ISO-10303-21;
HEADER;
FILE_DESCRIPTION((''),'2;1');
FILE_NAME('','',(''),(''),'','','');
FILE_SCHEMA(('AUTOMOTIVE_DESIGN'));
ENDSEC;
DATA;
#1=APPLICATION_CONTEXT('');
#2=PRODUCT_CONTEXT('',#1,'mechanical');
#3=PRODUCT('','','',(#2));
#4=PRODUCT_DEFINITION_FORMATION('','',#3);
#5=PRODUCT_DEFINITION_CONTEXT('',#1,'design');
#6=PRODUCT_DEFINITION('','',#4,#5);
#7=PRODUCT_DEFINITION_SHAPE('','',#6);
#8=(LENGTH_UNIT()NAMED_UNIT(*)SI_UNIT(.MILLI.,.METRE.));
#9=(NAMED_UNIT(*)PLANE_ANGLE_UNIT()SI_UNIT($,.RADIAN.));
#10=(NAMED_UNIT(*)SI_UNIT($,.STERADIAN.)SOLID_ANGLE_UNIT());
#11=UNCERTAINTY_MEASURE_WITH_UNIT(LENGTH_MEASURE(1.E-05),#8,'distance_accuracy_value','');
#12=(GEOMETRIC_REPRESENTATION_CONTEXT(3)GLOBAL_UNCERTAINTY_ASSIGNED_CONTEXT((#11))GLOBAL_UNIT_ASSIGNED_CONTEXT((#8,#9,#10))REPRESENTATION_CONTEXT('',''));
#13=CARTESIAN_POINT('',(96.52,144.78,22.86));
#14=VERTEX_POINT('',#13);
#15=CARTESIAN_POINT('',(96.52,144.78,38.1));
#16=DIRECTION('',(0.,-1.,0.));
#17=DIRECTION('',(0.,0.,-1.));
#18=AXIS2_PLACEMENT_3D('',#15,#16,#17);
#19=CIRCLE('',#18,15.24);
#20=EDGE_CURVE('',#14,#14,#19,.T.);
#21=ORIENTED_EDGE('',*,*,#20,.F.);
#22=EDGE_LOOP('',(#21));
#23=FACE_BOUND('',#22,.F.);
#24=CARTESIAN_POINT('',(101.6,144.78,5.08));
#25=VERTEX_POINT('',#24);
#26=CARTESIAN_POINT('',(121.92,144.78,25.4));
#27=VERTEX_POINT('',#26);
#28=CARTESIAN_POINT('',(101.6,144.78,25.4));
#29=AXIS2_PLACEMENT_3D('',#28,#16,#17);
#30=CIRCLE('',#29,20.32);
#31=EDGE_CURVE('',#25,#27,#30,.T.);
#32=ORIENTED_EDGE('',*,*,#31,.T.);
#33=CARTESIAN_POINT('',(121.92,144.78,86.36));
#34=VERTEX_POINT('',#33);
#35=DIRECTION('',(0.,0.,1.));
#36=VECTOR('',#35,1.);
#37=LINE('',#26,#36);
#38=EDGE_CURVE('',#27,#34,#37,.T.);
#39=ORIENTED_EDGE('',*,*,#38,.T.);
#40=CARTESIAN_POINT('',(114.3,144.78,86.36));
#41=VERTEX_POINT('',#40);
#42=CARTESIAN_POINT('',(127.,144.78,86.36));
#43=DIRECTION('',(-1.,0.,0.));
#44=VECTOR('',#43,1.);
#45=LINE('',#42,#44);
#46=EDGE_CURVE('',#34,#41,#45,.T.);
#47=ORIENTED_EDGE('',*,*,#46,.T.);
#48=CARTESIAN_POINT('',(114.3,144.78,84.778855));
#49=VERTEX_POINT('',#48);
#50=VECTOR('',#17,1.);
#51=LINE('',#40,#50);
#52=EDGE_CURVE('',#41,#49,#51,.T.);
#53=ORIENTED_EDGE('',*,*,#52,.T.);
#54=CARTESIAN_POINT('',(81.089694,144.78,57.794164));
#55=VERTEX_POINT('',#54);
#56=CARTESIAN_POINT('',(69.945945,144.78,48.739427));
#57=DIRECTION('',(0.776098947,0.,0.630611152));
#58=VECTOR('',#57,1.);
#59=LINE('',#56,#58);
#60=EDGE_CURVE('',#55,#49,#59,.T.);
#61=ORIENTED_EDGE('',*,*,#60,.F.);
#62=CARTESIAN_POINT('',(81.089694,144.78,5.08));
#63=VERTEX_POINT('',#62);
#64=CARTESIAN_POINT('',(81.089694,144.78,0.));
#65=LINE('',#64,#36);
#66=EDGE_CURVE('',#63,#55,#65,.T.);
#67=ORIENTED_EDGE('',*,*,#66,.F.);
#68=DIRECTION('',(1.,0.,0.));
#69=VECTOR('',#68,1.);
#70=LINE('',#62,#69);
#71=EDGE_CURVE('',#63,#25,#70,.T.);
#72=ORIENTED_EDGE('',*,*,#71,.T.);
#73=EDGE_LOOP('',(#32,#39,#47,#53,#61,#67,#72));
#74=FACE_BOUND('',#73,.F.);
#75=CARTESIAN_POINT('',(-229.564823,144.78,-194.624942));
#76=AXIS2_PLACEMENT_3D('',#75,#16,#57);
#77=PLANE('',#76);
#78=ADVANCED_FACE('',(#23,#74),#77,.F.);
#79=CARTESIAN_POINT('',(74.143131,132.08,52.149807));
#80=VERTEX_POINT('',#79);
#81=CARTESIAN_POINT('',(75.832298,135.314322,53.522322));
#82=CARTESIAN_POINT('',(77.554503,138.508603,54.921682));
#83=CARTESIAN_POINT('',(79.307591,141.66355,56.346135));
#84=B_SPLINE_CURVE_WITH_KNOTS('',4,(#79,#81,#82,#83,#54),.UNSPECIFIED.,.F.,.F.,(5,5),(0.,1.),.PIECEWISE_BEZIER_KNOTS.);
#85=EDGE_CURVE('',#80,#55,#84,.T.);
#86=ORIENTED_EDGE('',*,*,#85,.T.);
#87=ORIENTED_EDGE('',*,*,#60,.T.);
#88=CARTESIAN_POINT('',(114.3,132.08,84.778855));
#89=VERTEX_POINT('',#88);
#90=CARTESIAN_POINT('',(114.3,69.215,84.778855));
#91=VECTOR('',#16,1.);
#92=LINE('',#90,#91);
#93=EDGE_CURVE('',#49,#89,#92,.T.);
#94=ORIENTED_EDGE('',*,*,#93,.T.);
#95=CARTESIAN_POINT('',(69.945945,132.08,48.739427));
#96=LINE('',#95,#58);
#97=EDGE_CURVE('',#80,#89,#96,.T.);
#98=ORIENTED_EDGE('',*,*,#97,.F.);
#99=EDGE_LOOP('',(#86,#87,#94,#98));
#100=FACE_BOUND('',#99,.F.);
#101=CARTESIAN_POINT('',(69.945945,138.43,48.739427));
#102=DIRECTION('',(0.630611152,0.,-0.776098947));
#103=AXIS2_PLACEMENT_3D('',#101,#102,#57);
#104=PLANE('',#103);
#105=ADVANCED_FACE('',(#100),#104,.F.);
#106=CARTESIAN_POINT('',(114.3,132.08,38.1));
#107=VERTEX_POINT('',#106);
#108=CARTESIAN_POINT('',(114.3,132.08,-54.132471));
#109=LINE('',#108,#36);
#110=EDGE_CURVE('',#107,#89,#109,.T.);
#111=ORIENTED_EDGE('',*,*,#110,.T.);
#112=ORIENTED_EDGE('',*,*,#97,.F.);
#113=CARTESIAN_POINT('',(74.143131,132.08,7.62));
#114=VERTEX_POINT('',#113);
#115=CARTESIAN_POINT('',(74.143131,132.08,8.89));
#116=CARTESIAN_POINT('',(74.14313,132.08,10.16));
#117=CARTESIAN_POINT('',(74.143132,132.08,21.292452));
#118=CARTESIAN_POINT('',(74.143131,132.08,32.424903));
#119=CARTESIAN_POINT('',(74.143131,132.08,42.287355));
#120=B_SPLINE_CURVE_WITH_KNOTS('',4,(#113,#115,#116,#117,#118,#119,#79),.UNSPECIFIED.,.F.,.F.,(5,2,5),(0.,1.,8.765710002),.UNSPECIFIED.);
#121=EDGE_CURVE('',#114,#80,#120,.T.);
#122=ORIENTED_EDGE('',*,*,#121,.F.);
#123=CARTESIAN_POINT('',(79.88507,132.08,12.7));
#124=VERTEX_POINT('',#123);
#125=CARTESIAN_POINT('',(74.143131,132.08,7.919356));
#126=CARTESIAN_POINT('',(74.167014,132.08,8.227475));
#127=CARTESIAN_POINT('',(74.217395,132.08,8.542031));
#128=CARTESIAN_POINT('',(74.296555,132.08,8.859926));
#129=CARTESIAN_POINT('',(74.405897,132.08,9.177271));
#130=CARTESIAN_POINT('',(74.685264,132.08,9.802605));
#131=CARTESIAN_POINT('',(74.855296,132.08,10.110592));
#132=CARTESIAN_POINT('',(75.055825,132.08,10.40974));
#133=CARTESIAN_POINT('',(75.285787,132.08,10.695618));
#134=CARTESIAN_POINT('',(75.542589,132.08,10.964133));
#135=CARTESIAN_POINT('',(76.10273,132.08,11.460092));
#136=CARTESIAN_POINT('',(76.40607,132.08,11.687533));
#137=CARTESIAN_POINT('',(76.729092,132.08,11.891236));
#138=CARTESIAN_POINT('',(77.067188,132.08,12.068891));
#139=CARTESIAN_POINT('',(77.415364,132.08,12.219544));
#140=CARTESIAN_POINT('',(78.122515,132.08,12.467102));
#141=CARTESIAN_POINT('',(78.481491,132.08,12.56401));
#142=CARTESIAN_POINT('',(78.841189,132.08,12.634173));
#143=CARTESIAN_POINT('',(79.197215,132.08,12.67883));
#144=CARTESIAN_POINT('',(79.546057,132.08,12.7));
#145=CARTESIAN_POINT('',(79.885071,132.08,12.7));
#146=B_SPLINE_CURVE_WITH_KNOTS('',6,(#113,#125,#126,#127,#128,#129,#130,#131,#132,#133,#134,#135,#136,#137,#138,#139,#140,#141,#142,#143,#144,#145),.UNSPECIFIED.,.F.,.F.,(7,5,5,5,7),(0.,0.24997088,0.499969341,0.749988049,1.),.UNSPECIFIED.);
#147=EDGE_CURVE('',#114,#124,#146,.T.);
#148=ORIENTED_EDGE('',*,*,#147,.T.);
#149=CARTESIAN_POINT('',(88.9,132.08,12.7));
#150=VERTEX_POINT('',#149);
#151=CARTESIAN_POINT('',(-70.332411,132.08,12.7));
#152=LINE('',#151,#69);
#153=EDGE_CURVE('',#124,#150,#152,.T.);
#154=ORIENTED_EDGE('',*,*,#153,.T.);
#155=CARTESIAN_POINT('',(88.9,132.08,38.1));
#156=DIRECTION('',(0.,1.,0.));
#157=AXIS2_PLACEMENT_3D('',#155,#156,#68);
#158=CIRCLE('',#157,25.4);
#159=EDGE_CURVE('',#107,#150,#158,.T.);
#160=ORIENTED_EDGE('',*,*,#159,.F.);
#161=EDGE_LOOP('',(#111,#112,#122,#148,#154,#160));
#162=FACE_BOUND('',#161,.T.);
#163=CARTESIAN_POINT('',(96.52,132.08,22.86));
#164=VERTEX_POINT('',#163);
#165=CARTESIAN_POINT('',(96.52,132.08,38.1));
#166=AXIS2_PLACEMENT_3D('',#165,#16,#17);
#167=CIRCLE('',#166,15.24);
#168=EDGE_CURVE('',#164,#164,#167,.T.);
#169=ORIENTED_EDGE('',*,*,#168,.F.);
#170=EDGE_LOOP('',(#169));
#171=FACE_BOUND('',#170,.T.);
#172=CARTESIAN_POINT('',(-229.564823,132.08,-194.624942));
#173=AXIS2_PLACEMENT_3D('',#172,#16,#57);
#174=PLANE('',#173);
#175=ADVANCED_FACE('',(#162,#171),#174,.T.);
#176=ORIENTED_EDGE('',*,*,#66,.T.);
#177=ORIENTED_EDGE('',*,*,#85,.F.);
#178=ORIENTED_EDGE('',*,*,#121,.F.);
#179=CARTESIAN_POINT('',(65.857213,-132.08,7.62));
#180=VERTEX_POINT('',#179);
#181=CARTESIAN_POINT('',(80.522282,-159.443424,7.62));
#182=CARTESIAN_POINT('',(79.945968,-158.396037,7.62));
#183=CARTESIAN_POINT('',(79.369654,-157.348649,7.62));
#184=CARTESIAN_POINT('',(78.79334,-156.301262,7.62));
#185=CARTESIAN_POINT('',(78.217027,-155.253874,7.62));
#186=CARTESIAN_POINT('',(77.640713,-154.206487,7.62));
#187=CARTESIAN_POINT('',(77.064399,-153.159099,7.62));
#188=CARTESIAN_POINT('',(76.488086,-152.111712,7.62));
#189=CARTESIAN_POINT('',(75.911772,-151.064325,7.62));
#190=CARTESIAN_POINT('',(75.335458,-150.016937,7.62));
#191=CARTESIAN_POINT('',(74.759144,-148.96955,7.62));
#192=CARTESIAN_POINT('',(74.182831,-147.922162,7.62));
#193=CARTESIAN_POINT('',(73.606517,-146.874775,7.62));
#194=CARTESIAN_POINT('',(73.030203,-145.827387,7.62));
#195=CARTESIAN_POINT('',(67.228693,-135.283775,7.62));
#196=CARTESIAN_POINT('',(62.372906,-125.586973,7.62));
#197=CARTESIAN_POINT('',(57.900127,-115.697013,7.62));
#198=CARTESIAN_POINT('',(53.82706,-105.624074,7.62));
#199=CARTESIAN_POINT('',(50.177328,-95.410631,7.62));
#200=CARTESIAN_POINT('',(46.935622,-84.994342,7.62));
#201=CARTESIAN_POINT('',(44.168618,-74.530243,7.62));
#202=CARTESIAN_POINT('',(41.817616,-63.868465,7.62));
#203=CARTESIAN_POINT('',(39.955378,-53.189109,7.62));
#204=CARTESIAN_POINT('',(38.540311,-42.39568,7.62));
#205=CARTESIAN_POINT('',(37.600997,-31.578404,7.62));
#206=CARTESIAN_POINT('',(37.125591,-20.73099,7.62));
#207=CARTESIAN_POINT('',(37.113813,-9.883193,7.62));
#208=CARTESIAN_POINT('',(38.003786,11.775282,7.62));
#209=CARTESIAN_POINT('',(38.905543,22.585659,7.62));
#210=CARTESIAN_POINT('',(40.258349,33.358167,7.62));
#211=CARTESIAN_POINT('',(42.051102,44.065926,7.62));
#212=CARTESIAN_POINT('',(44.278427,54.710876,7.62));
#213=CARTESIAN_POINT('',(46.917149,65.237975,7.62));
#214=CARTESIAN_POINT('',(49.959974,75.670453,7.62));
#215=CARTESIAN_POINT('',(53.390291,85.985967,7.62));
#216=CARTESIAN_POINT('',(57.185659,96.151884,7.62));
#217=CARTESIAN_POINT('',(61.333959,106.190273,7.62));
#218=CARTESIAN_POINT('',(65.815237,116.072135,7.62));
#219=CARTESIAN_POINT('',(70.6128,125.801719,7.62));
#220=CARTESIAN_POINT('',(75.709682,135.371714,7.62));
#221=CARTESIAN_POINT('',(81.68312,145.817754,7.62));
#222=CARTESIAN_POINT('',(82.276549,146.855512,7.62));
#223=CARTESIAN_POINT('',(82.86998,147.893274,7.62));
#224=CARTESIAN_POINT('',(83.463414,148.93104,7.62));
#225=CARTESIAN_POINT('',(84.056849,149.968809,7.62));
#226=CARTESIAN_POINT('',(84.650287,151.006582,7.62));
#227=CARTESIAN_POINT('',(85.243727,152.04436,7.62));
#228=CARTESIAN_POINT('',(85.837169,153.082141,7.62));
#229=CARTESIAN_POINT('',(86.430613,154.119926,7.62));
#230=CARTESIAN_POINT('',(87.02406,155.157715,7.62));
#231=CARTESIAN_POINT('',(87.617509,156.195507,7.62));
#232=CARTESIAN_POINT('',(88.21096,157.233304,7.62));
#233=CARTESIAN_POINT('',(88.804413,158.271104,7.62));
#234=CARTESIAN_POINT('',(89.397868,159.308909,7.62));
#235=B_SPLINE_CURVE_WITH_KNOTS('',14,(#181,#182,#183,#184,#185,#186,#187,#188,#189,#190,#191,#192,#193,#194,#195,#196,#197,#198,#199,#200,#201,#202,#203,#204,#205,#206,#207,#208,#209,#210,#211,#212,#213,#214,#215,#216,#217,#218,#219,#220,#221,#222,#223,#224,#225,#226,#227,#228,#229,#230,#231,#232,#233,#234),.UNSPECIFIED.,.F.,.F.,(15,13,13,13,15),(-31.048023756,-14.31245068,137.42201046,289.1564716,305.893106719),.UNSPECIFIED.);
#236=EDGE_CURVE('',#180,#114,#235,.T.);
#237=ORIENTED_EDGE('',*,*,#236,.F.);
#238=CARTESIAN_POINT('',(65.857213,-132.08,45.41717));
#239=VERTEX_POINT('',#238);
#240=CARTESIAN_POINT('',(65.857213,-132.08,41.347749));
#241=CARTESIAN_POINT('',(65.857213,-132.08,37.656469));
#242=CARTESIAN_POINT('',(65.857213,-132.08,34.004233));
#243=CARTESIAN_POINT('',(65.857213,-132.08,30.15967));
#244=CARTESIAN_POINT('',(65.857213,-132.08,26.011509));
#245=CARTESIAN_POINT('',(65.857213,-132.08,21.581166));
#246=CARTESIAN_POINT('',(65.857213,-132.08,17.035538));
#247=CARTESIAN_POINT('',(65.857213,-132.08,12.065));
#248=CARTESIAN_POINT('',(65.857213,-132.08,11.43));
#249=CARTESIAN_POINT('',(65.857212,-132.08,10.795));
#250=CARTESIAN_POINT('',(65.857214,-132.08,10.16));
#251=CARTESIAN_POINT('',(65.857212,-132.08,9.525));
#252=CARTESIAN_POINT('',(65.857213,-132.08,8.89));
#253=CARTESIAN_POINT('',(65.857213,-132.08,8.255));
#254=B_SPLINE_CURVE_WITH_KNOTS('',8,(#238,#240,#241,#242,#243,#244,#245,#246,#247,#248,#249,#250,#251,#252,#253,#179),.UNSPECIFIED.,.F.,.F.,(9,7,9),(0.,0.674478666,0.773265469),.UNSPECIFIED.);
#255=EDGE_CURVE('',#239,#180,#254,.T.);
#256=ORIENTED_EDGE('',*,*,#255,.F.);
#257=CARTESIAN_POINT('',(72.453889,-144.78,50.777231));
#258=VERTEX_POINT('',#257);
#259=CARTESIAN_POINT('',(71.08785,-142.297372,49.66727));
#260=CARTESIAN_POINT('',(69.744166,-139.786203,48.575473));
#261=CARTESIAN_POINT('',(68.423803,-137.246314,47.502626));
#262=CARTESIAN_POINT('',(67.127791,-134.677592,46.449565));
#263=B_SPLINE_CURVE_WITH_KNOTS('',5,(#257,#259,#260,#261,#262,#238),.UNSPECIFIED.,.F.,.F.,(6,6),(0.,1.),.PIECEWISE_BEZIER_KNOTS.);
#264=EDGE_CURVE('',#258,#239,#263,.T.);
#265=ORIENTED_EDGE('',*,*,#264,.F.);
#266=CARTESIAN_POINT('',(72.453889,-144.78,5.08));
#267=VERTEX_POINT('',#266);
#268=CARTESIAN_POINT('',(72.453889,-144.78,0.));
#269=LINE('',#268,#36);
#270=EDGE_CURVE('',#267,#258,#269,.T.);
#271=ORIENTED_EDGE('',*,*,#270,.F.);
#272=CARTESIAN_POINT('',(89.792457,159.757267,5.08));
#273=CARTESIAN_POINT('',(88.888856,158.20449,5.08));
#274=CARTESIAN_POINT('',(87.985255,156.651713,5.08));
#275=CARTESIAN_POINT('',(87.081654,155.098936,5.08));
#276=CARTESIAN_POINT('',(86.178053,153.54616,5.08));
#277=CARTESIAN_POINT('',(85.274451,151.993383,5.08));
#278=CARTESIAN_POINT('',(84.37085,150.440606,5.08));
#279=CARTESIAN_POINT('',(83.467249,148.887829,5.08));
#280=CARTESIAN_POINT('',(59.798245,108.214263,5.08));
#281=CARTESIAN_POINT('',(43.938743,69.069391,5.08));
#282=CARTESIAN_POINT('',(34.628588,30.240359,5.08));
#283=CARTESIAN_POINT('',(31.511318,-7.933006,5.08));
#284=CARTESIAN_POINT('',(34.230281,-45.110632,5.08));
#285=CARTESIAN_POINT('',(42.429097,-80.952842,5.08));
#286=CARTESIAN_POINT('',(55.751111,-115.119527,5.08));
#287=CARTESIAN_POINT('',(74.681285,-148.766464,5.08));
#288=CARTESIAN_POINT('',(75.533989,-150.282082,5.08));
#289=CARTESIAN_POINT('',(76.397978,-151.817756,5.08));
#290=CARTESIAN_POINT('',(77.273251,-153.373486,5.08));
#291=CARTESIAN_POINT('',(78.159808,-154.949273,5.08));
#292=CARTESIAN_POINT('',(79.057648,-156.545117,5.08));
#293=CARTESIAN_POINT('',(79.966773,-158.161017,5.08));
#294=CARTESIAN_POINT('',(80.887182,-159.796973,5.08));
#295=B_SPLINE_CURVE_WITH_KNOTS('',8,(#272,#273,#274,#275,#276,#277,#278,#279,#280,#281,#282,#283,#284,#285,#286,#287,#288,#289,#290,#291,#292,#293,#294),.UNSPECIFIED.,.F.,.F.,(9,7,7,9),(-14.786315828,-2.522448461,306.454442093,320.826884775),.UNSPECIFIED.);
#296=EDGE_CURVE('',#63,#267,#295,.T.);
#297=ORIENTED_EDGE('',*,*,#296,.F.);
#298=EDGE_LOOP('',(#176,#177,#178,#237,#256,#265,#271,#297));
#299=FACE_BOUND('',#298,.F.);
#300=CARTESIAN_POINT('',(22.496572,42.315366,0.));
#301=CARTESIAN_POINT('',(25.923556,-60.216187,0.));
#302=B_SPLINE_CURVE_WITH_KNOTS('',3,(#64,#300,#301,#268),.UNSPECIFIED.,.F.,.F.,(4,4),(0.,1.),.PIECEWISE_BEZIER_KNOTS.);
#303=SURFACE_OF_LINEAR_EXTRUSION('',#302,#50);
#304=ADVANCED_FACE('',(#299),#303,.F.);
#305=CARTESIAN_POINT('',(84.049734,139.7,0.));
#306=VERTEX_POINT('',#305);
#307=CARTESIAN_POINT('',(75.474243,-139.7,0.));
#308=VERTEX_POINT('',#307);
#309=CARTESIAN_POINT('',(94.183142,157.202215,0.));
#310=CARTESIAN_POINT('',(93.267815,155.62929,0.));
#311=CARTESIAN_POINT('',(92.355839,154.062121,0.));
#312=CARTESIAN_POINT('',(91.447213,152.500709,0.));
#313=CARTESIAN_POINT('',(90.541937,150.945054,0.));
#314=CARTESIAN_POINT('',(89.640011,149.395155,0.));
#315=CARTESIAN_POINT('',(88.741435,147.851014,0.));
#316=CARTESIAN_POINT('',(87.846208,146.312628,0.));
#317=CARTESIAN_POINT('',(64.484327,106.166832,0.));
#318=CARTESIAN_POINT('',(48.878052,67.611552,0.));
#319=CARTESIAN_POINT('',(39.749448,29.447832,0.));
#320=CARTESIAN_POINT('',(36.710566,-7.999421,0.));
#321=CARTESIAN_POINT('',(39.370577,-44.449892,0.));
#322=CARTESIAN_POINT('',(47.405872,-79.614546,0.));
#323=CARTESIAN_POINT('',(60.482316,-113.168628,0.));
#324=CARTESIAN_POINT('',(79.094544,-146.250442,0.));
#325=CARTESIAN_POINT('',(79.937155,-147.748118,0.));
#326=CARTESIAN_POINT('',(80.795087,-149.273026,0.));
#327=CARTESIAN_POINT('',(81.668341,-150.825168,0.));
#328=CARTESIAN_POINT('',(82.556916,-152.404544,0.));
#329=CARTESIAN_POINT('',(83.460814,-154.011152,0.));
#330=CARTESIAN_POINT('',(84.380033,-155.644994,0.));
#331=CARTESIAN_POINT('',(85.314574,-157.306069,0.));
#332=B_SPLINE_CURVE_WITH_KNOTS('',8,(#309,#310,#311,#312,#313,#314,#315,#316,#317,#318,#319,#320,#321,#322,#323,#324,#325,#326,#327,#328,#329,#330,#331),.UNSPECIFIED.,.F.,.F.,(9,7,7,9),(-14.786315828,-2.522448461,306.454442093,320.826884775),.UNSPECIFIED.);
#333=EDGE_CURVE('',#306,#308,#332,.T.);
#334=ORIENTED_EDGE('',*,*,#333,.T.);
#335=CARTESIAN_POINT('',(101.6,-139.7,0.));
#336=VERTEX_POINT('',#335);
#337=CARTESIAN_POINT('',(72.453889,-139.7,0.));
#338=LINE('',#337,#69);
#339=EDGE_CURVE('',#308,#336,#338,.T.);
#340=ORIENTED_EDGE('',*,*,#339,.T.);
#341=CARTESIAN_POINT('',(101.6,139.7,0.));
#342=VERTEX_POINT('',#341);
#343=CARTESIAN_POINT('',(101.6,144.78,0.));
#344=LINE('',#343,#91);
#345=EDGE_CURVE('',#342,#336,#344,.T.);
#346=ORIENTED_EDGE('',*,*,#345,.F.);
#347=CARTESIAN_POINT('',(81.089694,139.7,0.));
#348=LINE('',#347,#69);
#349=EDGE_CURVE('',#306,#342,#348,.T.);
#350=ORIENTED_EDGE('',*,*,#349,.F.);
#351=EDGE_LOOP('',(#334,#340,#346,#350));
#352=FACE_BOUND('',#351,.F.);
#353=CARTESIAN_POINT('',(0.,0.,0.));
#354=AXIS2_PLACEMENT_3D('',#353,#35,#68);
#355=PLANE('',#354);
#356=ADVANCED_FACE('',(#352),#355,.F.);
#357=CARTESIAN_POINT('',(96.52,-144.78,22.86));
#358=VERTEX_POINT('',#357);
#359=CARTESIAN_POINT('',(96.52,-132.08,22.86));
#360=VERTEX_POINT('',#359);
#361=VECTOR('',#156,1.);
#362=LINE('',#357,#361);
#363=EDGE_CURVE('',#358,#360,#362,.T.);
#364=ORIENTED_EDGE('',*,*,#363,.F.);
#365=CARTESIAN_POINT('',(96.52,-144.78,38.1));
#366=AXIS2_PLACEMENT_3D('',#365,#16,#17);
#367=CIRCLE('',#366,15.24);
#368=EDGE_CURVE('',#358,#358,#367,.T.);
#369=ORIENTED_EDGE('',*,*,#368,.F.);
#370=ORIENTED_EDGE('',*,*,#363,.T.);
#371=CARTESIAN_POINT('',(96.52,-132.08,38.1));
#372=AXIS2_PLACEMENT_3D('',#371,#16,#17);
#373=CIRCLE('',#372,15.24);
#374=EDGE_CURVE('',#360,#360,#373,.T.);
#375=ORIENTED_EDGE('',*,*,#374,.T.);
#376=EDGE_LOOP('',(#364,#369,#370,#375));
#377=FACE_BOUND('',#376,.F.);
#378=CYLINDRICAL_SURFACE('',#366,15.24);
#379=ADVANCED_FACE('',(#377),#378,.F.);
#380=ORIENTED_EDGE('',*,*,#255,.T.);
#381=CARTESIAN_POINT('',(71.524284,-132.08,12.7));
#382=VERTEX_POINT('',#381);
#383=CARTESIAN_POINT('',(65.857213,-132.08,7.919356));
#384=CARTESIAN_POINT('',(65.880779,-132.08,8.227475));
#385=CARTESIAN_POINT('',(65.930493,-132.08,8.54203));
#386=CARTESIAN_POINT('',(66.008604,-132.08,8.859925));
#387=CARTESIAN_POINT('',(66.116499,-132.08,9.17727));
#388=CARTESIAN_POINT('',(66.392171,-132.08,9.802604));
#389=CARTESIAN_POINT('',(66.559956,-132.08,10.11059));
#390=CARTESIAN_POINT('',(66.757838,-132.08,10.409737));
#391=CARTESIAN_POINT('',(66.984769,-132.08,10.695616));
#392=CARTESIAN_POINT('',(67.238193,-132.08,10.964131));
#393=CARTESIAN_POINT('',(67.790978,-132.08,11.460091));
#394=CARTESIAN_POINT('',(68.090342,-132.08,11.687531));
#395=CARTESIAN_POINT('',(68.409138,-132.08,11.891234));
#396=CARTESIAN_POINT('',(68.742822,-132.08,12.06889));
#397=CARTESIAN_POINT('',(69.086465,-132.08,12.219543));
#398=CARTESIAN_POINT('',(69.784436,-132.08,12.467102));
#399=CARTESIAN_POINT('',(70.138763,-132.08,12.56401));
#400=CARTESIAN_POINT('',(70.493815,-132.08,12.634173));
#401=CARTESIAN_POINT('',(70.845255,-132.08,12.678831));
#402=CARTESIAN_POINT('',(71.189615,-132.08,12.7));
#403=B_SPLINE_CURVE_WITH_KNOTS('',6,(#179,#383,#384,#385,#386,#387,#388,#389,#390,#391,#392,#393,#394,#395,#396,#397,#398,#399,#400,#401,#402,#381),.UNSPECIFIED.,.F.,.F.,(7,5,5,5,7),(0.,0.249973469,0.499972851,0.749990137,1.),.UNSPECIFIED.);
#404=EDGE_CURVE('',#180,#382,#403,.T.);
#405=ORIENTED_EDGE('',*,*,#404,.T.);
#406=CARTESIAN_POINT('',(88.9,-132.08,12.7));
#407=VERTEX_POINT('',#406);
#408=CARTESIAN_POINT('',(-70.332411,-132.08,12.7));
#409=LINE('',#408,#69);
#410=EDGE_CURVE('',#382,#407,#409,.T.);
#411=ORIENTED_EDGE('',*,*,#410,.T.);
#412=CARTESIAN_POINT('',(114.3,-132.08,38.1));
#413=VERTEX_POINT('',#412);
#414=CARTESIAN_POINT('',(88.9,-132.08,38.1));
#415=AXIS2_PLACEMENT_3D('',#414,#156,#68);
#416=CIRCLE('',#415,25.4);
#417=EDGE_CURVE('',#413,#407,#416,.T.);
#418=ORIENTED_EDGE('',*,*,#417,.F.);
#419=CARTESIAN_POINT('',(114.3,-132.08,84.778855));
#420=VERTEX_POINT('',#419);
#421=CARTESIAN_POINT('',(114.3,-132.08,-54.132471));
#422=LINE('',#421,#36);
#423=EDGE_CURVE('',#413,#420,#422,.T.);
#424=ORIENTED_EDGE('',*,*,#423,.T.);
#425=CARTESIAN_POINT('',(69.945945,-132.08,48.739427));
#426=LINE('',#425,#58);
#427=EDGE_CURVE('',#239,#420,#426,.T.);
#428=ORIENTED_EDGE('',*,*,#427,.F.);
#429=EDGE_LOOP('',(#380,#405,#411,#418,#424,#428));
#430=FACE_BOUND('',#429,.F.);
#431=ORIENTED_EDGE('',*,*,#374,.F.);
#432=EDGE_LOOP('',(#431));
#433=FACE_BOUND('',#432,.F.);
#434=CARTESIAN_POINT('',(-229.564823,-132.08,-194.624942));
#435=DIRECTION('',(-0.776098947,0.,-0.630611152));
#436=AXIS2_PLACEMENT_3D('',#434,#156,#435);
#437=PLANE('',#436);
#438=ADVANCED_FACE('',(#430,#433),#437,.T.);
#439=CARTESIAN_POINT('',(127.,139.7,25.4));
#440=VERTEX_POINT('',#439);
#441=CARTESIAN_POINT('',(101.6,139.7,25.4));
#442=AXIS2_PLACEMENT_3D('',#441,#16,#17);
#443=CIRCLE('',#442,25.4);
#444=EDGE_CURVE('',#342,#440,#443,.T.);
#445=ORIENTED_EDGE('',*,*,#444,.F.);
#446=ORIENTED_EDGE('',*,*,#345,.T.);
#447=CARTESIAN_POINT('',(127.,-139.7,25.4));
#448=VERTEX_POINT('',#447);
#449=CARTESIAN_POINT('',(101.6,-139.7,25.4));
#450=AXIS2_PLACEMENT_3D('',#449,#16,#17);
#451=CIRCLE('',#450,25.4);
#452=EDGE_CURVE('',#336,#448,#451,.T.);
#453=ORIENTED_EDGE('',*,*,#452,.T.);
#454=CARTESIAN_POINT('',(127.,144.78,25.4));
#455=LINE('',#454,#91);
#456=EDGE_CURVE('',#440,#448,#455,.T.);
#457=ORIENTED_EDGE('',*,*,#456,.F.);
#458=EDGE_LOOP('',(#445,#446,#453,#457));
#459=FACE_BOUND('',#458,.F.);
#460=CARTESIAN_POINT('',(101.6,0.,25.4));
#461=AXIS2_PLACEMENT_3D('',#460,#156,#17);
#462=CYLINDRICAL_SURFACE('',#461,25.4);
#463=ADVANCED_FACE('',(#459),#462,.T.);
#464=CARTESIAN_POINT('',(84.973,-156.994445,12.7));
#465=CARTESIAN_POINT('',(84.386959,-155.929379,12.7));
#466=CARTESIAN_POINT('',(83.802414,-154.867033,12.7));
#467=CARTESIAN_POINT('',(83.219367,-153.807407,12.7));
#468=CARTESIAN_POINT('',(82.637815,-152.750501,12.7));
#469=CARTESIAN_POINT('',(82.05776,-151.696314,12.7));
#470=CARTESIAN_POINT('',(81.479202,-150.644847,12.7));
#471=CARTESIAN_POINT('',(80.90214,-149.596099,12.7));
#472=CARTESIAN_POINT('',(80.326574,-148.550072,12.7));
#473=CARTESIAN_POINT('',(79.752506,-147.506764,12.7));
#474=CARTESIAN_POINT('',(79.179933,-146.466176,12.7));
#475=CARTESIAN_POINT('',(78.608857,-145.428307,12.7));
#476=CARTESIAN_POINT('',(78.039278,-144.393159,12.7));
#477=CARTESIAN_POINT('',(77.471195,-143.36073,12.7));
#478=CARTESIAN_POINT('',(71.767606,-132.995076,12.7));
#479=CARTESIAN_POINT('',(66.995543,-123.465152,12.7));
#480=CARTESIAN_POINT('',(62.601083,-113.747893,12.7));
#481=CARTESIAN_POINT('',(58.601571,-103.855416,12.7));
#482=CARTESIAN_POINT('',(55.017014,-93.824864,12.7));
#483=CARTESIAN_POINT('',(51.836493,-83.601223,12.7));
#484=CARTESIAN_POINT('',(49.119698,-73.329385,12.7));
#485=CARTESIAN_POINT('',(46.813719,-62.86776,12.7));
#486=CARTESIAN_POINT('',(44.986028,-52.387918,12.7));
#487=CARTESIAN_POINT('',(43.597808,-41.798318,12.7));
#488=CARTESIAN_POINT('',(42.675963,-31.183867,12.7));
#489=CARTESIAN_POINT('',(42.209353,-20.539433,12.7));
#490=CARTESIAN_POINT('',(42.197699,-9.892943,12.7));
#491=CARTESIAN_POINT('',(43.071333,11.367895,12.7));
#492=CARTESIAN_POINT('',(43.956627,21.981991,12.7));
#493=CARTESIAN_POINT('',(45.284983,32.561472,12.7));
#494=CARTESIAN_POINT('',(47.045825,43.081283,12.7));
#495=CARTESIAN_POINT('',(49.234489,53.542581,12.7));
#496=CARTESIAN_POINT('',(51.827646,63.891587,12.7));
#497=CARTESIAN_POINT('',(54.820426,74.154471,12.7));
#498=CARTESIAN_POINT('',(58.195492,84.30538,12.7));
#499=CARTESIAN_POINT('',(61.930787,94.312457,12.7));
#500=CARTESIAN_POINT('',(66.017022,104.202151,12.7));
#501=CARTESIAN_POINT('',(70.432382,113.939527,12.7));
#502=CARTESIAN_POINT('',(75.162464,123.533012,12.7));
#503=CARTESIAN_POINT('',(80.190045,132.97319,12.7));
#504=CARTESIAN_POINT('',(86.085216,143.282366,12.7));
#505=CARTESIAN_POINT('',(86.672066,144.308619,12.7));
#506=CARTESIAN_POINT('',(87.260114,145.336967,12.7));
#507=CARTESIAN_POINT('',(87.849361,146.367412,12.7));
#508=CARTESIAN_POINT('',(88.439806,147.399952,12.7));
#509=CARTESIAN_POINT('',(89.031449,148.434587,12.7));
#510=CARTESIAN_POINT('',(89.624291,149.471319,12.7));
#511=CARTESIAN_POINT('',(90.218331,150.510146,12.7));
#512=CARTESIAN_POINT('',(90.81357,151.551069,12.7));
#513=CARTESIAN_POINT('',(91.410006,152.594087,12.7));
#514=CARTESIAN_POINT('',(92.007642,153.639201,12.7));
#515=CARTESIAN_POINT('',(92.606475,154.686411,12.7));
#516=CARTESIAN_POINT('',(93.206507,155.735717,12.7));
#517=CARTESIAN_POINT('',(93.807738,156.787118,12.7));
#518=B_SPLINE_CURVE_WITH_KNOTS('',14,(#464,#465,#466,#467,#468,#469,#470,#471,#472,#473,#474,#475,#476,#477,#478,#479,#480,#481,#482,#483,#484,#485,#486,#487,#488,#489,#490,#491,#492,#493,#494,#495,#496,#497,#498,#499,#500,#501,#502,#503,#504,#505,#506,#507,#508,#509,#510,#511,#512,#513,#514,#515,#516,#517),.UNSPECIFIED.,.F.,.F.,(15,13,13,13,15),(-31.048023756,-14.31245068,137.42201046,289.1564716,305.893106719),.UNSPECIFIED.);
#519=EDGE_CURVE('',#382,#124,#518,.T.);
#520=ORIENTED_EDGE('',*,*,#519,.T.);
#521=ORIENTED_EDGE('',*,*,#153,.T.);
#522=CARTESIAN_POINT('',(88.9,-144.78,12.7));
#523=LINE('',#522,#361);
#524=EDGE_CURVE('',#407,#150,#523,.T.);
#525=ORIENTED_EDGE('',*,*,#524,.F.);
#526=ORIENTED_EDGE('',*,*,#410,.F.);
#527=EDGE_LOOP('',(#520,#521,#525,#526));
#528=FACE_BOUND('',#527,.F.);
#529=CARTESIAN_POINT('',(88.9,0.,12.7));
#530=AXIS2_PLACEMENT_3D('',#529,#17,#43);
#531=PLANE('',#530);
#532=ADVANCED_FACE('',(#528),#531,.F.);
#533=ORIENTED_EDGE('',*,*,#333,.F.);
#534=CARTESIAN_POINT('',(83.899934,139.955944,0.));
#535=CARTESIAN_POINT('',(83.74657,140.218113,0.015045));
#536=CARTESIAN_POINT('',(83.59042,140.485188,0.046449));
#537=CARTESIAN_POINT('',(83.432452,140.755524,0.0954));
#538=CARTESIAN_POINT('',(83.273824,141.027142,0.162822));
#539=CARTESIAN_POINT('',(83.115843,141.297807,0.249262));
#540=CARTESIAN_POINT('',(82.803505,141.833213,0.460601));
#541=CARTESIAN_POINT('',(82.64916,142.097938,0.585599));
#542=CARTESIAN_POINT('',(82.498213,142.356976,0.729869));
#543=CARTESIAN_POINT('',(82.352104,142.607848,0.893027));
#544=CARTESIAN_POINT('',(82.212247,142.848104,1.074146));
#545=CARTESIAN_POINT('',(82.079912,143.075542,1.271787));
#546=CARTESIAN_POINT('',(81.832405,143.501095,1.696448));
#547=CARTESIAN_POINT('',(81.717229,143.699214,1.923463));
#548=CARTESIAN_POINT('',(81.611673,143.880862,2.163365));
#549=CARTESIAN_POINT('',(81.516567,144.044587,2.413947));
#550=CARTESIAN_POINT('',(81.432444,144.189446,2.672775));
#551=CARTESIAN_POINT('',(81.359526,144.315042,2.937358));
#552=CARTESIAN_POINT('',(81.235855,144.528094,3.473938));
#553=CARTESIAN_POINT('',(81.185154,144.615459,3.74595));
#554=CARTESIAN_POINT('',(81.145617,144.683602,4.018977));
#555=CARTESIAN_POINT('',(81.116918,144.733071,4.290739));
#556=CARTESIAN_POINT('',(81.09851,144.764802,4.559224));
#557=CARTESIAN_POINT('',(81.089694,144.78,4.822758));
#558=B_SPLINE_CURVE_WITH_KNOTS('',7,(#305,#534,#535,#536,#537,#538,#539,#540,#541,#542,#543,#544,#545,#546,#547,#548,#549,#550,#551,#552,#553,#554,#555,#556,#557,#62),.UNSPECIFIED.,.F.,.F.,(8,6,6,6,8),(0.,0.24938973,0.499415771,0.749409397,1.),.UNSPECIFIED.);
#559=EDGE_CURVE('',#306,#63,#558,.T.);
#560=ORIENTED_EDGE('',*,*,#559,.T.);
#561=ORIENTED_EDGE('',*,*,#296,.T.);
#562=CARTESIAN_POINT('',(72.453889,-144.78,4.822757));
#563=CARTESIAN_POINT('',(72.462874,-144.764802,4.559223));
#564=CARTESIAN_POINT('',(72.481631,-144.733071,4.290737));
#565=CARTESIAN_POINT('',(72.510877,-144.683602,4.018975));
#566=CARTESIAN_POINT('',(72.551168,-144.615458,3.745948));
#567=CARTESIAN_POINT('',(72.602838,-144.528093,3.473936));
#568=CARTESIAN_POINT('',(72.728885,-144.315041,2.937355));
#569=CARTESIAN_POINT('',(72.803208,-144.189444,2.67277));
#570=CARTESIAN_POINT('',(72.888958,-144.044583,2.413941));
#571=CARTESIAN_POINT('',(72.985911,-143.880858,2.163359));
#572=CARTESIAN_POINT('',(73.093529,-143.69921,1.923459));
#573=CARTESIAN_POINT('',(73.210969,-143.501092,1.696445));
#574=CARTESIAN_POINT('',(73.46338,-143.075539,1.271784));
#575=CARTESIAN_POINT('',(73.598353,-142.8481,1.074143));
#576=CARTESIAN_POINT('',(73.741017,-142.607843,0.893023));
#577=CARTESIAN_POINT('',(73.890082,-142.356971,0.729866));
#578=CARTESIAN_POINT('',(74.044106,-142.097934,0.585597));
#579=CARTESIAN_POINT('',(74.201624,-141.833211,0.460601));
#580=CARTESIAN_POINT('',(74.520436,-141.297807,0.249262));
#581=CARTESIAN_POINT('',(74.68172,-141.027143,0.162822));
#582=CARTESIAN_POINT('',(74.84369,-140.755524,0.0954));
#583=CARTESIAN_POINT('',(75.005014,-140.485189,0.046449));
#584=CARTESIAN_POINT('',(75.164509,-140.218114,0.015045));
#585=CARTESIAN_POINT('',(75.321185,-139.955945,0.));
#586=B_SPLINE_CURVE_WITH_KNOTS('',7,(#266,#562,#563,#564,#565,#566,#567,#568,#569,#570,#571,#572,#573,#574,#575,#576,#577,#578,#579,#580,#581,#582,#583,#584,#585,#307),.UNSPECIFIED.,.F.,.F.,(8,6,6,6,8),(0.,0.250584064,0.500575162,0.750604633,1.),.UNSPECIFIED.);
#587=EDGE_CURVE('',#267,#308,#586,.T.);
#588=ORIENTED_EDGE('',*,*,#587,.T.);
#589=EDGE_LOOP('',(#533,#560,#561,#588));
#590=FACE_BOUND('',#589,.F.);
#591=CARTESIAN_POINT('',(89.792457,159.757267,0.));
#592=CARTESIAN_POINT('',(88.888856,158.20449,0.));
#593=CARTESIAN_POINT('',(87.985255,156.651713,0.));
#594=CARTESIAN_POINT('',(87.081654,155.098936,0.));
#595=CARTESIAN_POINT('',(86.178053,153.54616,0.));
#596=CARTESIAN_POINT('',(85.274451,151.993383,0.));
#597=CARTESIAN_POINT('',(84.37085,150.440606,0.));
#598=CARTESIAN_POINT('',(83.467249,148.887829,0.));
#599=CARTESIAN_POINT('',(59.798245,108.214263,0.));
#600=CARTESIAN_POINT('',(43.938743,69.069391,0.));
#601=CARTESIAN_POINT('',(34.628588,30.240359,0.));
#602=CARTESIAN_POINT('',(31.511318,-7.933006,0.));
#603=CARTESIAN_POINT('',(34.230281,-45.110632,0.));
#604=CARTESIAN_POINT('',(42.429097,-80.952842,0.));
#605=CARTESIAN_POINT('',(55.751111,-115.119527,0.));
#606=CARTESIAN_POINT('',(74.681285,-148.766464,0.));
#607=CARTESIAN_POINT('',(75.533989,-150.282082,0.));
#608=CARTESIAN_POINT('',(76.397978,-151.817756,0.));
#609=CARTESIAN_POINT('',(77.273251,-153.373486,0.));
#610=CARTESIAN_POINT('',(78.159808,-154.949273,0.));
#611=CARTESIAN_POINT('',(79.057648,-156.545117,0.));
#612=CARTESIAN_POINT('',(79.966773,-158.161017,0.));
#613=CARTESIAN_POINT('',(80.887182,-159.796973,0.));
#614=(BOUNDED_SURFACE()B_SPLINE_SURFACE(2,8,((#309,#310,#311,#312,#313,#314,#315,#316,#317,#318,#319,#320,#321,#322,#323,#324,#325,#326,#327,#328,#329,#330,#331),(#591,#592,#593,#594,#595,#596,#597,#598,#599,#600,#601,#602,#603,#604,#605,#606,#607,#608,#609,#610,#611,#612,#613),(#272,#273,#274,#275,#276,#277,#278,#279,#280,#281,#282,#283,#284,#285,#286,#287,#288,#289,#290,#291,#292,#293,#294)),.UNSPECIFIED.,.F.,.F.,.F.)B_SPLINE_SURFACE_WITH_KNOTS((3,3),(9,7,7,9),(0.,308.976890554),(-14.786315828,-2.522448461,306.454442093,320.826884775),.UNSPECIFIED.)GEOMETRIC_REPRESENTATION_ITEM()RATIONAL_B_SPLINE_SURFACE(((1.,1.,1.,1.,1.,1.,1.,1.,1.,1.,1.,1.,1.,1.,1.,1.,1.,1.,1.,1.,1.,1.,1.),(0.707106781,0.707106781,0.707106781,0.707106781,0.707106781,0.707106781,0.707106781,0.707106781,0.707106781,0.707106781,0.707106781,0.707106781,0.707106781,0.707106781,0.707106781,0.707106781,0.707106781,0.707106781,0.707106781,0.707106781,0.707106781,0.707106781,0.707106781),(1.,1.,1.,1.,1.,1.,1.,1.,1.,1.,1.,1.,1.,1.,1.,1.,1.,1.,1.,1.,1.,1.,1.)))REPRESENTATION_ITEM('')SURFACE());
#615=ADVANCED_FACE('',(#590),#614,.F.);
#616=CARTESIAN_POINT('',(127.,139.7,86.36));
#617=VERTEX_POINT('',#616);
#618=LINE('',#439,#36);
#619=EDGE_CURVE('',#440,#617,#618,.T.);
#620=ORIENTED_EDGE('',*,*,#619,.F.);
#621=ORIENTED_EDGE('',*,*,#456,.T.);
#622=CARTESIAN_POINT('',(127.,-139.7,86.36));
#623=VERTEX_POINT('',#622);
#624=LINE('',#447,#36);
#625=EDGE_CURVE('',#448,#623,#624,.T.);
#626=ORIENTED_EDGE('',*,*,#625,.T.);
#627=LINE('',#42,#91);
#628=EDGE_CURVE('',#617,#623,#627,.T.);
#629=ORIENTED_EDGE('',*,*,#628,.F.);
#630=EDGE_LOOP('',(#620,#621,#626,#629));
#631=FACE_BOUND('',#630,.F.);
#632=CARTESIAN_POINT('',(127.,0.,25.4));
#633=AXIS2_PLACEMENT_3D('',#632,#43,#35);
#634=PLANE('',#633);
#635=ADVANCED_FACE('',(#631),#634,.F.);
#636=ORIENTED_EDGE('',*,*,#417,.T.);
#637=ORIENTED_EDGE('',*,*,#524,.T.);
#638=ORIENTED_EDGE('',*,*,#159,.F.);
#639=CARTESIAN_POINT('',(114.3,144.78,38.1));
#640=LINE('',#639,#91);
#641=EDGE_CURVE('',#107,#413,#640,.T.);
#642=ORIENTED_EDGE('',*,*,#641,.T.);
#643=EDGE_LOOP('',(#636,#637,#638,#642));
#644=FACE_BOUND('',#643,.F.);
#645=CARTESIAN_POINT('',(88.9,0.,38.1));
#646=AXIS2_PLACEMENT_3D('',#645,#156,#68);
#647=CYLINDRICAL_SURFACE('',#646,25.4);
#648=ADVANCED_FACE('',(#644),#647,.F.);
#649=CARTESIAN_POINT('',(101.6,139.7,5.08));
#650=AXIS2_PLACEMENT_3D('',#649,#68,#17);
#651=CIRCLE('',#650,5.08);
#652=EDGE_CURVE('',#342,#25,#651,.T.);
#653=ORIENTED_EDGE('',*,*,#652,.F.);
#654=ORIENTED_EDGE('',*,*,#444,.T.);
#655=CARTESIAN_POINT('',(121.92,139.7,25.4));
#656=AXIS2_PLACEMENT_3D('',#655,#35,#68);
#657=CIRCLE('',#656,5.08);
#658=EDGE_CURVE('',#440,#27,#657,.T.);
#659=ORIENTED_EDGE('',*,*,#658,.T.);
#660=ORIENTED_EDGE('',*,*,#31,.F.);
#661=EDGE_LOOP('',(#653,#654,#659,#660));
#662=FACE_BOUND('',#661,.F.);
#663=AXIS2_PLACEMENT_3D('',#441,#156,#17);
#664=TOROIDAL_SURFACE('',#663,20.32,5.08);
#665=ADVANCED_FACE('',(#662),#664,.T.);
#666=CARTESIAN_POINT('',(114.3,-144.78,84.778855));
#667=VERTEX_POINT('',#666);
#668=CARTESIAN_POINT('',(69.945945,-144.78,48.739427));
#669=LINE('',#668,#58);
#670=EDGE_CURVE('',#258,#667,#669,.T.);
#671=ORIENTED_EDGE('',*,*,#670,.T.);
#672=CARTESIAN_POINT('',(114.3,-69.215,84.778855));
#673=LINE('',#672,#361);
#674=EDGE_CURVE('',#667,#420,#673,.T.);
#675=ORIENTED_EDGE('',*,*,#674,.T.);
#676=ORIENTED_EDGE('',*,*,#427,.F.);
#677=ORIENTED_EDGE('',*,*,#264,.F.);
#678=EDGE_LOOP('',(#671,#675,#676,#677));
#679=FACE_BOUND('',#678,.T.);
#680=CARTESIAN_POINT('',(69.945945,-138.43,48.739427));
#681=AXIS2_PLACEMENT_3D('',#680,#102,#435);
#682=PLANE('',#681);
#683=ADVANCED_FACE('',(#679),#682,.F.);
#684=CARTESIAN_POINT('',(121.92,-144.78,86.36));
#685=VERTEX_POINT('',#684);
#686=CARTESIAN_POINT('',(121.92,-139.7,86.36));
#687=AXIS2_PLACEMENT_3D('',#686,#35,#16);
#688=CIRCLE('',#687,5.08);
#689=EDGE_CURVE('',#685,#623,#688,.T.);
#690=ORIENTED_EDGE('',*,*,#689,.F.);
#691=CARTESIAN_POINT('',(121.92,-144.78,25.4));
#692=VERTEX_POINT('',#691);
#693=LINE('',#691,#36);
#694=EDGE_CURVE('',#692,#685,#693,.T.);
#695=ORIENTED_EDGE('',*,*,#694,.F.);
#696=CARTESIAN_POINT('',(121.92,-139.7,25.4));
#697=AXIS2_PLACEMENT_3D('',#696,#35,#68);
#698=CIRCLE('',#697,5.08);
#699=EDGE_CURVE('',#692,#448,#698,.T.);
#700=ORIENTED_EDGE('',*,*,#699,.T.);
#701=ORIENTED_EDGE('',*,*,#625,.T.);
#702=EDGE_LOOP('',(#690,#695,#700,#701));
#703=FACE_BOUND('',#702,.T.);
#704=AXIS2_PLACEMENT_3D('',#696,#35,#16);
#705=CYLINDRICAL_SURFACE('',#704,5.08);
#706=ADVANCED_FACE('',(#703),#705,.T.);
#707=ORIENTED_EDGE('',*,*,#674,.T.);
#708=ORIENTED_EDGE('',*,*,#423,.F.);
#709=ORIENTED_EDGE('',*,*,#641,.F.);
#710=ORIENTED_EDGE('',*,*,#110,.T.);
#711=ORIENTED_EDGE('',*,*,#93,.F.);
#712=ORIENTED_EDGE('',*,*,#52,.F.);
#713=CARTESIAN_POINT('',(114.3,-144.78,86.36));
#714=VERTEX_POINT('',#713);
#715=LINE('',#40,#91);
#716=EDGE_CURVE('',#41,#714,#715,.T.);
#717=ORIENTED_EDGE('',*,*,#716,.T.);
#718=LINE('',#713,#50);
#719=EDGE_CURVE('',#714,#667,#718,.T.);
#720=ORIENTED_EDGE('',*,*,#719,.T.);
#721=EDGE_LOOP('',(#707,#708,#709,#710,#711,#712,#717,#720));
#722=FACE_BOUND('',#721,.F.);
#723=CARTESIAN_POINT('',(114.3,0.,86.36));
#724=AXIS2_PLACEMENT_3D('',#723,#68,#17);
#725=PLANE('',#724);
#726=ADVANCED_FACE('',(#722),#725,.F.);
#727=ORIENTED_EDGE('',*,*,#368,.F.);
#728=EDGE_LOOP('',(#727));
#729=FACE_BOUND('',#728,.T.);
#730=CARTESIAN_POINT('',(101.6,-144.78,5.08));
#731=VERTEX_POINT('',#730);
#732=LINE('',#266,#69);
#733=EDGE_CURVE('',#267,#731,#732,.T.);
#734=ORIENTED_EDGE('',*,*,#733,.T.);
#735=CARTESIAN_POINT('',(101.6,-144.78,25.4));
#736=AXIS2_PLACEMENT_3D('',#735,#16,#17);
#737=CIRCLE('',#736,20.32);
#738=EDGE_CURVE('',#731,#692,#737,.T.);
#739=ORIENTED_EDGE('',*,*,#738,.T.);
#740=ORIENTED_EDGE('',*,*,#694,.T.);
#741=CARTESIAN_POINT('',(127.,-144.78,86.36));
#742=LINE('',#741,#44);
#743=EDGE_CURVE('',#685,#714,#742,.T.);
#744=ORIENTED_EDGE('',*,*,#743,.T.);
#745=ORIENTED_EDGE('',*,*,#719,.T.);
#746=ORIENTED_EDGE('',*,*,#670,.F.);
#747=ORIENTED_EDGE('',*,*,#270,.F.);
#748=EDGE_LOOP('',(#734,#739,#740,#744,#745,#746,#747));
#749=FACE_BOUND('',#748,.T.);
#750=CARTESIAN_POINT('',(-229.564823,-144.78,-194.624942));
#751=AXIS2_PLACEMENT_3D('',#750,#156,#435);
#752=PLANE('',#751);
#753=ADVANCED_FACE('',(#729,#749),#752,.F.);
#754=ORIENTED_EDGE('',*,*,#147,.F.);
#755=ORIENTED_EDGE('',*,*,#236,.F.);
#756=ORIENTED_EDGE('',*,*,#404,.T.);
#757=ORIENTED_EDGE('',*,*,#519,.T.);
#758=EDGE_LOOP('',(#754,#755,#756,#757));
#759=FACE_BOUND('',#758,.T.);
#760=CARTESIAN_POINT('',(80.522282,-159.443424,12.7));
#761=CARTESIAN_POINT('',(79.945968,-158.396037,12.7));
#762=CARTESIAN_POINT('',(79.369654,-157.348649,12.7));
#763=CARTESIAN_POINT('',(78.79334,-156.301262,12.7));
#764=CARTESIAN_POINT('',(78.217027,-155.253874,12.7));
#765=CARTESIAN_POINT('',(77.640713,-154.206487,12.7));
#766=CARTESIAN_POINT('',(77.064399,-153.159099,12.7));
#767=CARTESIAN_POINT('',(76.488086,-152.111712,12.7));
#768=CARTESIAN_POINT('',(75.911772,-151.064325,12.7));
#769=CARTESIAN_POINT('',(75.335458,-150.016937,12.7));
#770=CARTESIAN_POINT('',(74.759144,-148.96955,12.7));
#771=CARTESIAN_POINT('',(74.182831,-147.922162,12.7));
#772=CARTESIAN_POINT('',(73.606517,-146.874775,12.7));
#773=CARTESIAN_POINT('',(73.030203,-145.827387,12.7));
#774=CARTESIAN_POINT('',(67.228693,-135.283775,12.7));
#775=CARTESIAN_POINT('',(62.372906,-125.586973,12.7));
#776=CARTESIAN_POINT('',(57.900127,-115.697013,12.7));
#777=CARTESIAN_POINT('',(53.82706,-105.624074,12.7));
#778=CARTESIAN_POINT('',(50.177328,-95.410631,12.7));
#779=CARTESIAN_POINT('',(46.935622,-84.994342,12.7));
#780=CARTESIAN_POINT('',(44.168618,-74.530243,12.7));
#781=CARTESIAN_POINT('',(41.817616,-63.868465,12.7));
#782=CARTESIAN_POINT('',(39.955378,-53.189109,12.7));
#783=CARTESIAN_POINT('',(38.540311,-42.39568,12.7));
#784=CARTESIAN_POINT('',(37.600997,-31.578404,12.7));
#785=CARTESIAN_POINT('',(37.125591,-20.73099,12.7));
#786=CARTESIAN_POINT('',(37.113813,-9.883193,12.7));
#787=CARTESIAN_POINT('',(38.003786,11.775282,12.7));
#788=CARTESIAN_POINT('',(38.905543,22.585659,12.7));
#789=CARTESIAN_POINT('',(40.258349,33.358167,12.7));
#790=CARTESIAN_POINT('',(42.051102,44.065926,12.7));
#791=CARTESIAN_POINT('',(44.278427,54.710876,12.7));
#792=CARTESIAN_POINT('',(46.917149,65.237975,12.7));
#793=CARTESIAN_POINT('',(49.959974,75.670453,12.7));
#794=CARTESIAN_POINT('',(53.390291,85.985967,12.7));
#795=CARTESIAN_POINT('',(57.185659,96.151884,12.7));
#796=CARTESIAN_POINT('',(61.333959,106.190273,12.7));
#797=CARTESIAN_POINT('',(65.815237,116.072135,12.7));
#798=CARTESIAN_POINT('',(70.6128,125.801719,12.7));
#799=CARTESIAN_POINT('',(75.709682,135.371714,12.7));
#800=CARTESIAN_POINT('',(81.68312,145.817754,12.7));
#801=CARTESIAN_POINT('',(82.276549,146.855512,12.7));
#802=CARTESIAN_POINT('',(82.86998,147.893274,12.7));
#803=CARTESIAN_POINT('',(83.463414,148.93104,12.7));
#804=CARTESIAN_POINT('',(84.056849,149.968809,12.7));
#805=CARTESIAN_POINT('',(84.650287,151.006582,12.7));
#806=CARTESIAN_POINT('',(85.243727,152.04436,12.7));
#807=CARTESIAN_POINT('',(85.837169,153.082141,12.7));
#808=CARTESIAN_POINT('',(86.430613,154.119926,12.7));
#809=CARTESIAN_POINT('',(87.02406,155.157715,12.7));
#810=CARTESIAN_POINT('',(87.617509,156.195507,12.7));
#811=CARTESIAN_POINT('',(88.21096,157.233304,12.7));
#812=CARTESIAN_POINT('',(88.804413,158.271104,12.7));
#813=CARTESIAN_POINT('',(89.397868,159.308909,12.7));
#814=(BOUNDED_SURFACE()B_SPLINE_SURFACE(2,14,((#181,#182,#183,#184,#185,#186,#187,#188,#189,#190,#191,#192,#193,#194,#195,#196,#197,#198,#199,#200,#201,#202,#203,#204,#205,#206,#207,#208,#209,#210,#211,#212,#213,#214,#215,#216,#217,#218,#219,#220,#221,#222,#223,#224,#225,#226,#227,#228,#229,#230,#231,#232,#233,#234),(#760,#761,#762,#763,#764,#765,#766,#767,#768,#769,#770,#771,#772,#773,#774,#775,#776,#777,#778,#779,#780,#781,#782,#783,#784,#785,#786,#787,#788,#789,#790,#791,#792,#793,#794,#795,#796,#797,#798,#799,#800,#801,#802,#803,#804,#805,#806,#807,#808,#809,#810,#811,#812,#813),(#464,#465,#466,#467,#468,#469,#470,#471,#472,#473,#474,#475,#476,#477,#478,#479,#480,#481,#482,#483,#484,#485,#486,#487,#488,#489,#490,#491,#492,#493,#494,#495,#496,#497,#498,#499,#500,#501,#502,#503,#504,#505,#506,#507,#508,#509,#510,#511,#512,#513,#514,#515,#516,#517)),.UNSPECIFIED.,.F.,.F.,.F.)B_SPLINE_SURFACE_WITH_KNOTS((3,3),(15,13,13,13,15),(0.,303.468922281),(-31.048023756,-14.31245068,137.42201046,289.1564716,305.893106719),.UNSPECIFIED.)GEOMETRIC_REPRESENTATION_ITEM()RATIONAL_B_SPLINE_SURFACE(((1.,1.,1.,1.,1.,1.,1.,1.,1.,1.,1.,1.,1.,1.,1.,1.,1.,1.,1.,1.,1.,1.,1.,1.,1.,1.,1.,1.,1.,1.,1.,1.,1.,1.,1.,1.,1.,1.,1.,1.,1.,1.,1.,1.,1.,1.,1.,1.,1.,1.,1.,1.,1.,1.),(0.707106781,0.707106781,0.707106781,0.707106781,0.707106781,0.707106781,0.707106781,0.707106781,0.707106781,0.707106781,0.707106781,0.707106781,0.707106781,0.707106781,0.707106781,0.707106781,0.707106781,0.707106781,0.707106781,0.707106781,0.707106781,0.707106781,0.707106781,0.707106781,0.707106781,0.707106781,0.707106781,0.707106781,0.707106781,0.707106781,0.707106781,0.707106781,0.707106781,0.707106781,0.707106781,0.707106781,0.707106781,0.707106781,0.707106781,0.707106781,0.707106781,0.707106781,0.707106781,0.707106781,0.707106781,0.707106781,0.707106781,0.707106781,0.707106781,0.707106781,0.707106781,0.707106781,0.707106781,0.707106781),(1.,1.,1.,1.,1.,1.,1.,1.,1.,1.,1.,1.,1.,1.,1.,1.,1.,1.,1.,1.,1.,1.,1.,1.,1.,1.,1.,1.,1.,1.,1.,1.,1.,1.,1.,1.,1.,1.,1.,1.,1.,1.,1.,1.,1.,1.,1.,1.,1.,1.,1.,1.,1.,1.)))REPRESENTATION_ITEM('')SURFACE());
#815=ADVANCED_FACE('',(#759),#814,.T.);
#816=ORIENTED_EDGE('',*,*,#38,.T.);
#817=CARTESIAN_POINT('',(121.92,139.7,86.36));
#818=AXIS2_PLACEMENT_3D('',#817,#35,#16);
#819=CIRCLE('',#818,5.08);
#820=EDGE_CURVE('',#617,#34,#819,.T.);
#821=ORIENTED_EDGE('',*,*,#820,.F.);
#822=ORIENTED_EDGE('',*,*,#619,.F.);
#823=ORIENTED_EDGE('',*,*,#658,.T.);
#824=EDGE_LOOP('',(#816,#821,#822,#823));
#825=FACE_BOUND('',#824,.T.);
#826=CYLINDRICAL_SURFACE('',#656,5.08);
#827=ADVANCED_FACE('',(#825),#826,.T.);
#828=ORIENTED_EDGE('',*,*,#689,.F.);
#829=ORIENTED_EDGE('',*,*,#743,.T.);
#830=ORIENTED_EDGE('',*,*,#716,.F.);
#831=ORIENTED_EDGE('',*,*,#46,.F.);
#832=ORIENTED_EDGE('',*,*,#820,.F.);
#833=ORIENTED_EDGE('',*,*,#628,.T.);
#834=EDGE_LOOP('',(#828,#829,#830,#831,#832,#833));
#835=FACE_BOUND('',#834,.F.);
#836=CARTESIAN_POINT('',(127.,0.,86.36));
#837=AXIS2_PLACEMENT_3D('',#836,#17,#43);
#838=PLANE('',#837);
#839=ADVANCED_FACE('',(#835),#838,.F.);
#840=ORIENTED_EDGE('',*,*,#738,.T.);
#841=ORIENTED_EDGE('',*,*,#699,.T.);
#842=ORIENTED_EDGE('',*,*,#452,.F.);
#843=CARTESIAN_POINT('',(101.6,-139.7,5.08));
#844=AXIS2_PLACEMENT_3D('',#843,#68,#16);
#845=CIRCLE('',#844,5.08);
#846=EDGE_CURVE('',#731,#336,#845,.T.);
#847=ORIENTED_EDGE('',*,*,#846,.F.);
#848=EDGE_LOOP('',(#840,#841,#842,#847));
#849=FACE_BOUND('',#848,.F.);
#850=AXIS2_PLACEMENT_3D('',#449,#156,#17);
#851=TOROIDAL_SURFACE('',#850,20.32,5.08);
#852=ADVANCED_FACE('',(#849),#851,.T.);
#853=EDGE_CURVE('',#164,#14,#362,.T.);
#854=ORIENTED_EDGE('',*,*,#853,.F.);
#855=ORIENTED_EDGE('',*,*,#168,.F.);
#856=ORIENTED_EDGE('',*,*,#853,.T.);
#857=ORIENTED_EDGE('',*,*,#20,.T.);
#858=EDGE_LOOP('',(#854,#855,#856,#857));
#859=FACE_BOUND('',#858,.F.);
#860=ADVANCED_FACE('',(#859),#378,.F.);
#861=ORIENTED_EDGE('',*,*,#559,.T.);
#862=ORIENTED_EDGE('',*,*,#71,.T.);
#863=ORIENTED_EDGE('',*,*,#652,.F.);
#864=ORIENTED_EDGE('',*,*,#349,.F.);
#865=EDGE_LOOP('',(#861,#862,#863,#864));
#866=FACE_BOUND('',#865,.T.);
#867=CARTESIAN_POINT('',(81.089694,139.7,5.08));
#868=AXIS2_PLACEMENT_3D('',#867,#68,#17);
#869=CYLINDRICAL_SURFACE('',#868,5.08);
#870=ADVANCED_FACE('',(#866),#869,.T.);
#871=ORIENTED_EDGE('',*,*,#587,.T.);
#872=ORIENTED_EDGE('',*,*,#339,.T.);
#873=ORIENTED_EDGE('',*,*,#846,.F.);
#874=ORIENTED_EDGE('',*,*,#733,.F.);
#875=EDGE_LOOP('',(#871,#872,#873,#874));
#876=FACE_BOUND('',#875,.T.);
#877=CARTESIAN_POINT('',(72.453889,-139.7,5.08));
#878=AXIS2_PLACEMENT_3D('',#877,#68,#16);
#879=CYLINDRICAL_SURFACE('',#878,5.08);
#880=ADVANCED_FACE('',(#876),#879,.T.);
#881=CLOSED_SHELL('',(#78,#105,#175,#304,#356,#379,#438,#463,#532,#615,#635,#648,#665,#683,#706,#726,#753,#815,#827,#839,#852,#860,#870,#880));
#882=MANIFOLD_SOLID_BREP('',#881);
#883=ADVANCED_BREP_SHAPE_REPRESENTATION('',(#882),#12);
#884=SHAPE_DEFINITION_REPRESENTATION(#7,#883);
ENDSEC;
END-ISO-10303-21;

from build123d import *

# Parameters (mm, degrees)
BOSS_EXTRUDE1_DEPTH = 144.78
RIB1_REACH          = 329.768
SKETCH3_WALL_W      = 771.836553366
SKETCH3_WALL_H      = 12.7
CUT_EXTRUDE1_DEPTH  = 289.56
FILLET1_R           = 5.08
SKETCH5_R           = 15.24
CUT_EXTRUDE2_DEPTH  = 328.768276772


with BuildPart() as part:
    # Sketch2 → Boss-Extrude1 (new, symmetric)
    with BuildSketch(Plane(origin=(0, 0, 0), x_dir=(1, 0, 0), z_dir=(0, 1, 0))):
        with BuildLine():
            Line((0, 0), (101.6, 0))
            ThreePointArc((101.6, 0), (119.560512242, -7.439487758), (127, -25.4))
            Line((127, -25.4), (127, -86.36))
            Line((127, -86.36), (114.3, -86.36))
            Line((114.3, -86.36), (114.3, -38.1))
            ThreePointArc((114.3, -38.1), (106.860512242, -20.139487758), (88.9, -12.7))
            Line((88.9, -12.7), (0, -12.7))
            Line((0, -12.7), (0, 0))
        make_face()
    extrude(amount=BOSS_EXTRUDE1_DEPTH, both=True)

    # Sketch3 wall → Rib1 (add, up to next)
    with BuildSketch(Plane(origin=(69.945945205, 144.78, 48.739427344), x_dir=(0.776098946536, 0, 0.630611152126), z_dir=(0.630611152126, 0, -0.776098946536)), mode=Mode.PRIVATE) as rib1_sk1:
        with Locations((0, 6.35)):
            Rectangle(SKETCH3_WALL_W, SKETCH3_WALL_H)
    rib1_tool1 = extrude(rib1_sk1.sketch, amount=RIB1_REACH, mode=Mode.PRIVATE) - part.part
    rib1 = rib1_tool1.solids().sort_by_distance((69.945945205, 144.78, 48.739427344))[0]
    add(rib1)

    # Mirror1: Rib1 across plane
    add(rib1.mirror(Plane.ZX))

    # Sketch4 → Cut-Extrude1 (cut)
    with BuildSketch(Plane(origin=(0, 0, 0), x_dir=(-1, 0, 0), z_dir=(0, 0, -1))):
        with BuildLine():
            Line((-81.089693515, 144.78), (0, 144.78))
            Line((0, 144.78), (0, -144.78))
            Line((0, -144.78), (-72.453889421, -144.78))
            add(Edge.make_bspline(
                [(-81.089693515, 144.78), (-22.496571769, 42.315365933), (-25.923555625, -60.216187191), (-72.453889421, -144.78)],
                knots=[0, 0, 0, 0, 1, 1, 1, 1], degree=3))
        make_face()
    extrude(amount=-CUT_EXTRUDE1_DEPTH, mode=Mode.SUBTRACT)

    # Fillet1
    fillet1_edges = [part.edges().sort_by_distance(p)[0] for p in [
        (127, 144.78, 55.88),
        (119.560512242, 144.78, 7.439487758),
        (91.344846758, 144.78, 0),
        (127, -144.78, 55.88),
        (119.560512242, -144.78, 7.439487758),
        (37.55873854, 0.944564154, 0),
        (87.02694471, -144.78, 0),
        (37.555382274, 0.862578583, 12.7),
    ]]
    fillet(fillet1_edges, radius=FILLET1_R)

    # Sketch5 → Cut-Extrude2 (cut, through all)
    with BuildSketch(Plane.XZ.offset(144.78)):
        with Locations(Location((96.52, 38.1, 0), (0, 0, 270))):
            Circle(SKETCH5_R)
    extrude(amount=-CUT_EXTRUDE2_DEPTH, mode=Mode.SUBTRACT)


solid = part.part
